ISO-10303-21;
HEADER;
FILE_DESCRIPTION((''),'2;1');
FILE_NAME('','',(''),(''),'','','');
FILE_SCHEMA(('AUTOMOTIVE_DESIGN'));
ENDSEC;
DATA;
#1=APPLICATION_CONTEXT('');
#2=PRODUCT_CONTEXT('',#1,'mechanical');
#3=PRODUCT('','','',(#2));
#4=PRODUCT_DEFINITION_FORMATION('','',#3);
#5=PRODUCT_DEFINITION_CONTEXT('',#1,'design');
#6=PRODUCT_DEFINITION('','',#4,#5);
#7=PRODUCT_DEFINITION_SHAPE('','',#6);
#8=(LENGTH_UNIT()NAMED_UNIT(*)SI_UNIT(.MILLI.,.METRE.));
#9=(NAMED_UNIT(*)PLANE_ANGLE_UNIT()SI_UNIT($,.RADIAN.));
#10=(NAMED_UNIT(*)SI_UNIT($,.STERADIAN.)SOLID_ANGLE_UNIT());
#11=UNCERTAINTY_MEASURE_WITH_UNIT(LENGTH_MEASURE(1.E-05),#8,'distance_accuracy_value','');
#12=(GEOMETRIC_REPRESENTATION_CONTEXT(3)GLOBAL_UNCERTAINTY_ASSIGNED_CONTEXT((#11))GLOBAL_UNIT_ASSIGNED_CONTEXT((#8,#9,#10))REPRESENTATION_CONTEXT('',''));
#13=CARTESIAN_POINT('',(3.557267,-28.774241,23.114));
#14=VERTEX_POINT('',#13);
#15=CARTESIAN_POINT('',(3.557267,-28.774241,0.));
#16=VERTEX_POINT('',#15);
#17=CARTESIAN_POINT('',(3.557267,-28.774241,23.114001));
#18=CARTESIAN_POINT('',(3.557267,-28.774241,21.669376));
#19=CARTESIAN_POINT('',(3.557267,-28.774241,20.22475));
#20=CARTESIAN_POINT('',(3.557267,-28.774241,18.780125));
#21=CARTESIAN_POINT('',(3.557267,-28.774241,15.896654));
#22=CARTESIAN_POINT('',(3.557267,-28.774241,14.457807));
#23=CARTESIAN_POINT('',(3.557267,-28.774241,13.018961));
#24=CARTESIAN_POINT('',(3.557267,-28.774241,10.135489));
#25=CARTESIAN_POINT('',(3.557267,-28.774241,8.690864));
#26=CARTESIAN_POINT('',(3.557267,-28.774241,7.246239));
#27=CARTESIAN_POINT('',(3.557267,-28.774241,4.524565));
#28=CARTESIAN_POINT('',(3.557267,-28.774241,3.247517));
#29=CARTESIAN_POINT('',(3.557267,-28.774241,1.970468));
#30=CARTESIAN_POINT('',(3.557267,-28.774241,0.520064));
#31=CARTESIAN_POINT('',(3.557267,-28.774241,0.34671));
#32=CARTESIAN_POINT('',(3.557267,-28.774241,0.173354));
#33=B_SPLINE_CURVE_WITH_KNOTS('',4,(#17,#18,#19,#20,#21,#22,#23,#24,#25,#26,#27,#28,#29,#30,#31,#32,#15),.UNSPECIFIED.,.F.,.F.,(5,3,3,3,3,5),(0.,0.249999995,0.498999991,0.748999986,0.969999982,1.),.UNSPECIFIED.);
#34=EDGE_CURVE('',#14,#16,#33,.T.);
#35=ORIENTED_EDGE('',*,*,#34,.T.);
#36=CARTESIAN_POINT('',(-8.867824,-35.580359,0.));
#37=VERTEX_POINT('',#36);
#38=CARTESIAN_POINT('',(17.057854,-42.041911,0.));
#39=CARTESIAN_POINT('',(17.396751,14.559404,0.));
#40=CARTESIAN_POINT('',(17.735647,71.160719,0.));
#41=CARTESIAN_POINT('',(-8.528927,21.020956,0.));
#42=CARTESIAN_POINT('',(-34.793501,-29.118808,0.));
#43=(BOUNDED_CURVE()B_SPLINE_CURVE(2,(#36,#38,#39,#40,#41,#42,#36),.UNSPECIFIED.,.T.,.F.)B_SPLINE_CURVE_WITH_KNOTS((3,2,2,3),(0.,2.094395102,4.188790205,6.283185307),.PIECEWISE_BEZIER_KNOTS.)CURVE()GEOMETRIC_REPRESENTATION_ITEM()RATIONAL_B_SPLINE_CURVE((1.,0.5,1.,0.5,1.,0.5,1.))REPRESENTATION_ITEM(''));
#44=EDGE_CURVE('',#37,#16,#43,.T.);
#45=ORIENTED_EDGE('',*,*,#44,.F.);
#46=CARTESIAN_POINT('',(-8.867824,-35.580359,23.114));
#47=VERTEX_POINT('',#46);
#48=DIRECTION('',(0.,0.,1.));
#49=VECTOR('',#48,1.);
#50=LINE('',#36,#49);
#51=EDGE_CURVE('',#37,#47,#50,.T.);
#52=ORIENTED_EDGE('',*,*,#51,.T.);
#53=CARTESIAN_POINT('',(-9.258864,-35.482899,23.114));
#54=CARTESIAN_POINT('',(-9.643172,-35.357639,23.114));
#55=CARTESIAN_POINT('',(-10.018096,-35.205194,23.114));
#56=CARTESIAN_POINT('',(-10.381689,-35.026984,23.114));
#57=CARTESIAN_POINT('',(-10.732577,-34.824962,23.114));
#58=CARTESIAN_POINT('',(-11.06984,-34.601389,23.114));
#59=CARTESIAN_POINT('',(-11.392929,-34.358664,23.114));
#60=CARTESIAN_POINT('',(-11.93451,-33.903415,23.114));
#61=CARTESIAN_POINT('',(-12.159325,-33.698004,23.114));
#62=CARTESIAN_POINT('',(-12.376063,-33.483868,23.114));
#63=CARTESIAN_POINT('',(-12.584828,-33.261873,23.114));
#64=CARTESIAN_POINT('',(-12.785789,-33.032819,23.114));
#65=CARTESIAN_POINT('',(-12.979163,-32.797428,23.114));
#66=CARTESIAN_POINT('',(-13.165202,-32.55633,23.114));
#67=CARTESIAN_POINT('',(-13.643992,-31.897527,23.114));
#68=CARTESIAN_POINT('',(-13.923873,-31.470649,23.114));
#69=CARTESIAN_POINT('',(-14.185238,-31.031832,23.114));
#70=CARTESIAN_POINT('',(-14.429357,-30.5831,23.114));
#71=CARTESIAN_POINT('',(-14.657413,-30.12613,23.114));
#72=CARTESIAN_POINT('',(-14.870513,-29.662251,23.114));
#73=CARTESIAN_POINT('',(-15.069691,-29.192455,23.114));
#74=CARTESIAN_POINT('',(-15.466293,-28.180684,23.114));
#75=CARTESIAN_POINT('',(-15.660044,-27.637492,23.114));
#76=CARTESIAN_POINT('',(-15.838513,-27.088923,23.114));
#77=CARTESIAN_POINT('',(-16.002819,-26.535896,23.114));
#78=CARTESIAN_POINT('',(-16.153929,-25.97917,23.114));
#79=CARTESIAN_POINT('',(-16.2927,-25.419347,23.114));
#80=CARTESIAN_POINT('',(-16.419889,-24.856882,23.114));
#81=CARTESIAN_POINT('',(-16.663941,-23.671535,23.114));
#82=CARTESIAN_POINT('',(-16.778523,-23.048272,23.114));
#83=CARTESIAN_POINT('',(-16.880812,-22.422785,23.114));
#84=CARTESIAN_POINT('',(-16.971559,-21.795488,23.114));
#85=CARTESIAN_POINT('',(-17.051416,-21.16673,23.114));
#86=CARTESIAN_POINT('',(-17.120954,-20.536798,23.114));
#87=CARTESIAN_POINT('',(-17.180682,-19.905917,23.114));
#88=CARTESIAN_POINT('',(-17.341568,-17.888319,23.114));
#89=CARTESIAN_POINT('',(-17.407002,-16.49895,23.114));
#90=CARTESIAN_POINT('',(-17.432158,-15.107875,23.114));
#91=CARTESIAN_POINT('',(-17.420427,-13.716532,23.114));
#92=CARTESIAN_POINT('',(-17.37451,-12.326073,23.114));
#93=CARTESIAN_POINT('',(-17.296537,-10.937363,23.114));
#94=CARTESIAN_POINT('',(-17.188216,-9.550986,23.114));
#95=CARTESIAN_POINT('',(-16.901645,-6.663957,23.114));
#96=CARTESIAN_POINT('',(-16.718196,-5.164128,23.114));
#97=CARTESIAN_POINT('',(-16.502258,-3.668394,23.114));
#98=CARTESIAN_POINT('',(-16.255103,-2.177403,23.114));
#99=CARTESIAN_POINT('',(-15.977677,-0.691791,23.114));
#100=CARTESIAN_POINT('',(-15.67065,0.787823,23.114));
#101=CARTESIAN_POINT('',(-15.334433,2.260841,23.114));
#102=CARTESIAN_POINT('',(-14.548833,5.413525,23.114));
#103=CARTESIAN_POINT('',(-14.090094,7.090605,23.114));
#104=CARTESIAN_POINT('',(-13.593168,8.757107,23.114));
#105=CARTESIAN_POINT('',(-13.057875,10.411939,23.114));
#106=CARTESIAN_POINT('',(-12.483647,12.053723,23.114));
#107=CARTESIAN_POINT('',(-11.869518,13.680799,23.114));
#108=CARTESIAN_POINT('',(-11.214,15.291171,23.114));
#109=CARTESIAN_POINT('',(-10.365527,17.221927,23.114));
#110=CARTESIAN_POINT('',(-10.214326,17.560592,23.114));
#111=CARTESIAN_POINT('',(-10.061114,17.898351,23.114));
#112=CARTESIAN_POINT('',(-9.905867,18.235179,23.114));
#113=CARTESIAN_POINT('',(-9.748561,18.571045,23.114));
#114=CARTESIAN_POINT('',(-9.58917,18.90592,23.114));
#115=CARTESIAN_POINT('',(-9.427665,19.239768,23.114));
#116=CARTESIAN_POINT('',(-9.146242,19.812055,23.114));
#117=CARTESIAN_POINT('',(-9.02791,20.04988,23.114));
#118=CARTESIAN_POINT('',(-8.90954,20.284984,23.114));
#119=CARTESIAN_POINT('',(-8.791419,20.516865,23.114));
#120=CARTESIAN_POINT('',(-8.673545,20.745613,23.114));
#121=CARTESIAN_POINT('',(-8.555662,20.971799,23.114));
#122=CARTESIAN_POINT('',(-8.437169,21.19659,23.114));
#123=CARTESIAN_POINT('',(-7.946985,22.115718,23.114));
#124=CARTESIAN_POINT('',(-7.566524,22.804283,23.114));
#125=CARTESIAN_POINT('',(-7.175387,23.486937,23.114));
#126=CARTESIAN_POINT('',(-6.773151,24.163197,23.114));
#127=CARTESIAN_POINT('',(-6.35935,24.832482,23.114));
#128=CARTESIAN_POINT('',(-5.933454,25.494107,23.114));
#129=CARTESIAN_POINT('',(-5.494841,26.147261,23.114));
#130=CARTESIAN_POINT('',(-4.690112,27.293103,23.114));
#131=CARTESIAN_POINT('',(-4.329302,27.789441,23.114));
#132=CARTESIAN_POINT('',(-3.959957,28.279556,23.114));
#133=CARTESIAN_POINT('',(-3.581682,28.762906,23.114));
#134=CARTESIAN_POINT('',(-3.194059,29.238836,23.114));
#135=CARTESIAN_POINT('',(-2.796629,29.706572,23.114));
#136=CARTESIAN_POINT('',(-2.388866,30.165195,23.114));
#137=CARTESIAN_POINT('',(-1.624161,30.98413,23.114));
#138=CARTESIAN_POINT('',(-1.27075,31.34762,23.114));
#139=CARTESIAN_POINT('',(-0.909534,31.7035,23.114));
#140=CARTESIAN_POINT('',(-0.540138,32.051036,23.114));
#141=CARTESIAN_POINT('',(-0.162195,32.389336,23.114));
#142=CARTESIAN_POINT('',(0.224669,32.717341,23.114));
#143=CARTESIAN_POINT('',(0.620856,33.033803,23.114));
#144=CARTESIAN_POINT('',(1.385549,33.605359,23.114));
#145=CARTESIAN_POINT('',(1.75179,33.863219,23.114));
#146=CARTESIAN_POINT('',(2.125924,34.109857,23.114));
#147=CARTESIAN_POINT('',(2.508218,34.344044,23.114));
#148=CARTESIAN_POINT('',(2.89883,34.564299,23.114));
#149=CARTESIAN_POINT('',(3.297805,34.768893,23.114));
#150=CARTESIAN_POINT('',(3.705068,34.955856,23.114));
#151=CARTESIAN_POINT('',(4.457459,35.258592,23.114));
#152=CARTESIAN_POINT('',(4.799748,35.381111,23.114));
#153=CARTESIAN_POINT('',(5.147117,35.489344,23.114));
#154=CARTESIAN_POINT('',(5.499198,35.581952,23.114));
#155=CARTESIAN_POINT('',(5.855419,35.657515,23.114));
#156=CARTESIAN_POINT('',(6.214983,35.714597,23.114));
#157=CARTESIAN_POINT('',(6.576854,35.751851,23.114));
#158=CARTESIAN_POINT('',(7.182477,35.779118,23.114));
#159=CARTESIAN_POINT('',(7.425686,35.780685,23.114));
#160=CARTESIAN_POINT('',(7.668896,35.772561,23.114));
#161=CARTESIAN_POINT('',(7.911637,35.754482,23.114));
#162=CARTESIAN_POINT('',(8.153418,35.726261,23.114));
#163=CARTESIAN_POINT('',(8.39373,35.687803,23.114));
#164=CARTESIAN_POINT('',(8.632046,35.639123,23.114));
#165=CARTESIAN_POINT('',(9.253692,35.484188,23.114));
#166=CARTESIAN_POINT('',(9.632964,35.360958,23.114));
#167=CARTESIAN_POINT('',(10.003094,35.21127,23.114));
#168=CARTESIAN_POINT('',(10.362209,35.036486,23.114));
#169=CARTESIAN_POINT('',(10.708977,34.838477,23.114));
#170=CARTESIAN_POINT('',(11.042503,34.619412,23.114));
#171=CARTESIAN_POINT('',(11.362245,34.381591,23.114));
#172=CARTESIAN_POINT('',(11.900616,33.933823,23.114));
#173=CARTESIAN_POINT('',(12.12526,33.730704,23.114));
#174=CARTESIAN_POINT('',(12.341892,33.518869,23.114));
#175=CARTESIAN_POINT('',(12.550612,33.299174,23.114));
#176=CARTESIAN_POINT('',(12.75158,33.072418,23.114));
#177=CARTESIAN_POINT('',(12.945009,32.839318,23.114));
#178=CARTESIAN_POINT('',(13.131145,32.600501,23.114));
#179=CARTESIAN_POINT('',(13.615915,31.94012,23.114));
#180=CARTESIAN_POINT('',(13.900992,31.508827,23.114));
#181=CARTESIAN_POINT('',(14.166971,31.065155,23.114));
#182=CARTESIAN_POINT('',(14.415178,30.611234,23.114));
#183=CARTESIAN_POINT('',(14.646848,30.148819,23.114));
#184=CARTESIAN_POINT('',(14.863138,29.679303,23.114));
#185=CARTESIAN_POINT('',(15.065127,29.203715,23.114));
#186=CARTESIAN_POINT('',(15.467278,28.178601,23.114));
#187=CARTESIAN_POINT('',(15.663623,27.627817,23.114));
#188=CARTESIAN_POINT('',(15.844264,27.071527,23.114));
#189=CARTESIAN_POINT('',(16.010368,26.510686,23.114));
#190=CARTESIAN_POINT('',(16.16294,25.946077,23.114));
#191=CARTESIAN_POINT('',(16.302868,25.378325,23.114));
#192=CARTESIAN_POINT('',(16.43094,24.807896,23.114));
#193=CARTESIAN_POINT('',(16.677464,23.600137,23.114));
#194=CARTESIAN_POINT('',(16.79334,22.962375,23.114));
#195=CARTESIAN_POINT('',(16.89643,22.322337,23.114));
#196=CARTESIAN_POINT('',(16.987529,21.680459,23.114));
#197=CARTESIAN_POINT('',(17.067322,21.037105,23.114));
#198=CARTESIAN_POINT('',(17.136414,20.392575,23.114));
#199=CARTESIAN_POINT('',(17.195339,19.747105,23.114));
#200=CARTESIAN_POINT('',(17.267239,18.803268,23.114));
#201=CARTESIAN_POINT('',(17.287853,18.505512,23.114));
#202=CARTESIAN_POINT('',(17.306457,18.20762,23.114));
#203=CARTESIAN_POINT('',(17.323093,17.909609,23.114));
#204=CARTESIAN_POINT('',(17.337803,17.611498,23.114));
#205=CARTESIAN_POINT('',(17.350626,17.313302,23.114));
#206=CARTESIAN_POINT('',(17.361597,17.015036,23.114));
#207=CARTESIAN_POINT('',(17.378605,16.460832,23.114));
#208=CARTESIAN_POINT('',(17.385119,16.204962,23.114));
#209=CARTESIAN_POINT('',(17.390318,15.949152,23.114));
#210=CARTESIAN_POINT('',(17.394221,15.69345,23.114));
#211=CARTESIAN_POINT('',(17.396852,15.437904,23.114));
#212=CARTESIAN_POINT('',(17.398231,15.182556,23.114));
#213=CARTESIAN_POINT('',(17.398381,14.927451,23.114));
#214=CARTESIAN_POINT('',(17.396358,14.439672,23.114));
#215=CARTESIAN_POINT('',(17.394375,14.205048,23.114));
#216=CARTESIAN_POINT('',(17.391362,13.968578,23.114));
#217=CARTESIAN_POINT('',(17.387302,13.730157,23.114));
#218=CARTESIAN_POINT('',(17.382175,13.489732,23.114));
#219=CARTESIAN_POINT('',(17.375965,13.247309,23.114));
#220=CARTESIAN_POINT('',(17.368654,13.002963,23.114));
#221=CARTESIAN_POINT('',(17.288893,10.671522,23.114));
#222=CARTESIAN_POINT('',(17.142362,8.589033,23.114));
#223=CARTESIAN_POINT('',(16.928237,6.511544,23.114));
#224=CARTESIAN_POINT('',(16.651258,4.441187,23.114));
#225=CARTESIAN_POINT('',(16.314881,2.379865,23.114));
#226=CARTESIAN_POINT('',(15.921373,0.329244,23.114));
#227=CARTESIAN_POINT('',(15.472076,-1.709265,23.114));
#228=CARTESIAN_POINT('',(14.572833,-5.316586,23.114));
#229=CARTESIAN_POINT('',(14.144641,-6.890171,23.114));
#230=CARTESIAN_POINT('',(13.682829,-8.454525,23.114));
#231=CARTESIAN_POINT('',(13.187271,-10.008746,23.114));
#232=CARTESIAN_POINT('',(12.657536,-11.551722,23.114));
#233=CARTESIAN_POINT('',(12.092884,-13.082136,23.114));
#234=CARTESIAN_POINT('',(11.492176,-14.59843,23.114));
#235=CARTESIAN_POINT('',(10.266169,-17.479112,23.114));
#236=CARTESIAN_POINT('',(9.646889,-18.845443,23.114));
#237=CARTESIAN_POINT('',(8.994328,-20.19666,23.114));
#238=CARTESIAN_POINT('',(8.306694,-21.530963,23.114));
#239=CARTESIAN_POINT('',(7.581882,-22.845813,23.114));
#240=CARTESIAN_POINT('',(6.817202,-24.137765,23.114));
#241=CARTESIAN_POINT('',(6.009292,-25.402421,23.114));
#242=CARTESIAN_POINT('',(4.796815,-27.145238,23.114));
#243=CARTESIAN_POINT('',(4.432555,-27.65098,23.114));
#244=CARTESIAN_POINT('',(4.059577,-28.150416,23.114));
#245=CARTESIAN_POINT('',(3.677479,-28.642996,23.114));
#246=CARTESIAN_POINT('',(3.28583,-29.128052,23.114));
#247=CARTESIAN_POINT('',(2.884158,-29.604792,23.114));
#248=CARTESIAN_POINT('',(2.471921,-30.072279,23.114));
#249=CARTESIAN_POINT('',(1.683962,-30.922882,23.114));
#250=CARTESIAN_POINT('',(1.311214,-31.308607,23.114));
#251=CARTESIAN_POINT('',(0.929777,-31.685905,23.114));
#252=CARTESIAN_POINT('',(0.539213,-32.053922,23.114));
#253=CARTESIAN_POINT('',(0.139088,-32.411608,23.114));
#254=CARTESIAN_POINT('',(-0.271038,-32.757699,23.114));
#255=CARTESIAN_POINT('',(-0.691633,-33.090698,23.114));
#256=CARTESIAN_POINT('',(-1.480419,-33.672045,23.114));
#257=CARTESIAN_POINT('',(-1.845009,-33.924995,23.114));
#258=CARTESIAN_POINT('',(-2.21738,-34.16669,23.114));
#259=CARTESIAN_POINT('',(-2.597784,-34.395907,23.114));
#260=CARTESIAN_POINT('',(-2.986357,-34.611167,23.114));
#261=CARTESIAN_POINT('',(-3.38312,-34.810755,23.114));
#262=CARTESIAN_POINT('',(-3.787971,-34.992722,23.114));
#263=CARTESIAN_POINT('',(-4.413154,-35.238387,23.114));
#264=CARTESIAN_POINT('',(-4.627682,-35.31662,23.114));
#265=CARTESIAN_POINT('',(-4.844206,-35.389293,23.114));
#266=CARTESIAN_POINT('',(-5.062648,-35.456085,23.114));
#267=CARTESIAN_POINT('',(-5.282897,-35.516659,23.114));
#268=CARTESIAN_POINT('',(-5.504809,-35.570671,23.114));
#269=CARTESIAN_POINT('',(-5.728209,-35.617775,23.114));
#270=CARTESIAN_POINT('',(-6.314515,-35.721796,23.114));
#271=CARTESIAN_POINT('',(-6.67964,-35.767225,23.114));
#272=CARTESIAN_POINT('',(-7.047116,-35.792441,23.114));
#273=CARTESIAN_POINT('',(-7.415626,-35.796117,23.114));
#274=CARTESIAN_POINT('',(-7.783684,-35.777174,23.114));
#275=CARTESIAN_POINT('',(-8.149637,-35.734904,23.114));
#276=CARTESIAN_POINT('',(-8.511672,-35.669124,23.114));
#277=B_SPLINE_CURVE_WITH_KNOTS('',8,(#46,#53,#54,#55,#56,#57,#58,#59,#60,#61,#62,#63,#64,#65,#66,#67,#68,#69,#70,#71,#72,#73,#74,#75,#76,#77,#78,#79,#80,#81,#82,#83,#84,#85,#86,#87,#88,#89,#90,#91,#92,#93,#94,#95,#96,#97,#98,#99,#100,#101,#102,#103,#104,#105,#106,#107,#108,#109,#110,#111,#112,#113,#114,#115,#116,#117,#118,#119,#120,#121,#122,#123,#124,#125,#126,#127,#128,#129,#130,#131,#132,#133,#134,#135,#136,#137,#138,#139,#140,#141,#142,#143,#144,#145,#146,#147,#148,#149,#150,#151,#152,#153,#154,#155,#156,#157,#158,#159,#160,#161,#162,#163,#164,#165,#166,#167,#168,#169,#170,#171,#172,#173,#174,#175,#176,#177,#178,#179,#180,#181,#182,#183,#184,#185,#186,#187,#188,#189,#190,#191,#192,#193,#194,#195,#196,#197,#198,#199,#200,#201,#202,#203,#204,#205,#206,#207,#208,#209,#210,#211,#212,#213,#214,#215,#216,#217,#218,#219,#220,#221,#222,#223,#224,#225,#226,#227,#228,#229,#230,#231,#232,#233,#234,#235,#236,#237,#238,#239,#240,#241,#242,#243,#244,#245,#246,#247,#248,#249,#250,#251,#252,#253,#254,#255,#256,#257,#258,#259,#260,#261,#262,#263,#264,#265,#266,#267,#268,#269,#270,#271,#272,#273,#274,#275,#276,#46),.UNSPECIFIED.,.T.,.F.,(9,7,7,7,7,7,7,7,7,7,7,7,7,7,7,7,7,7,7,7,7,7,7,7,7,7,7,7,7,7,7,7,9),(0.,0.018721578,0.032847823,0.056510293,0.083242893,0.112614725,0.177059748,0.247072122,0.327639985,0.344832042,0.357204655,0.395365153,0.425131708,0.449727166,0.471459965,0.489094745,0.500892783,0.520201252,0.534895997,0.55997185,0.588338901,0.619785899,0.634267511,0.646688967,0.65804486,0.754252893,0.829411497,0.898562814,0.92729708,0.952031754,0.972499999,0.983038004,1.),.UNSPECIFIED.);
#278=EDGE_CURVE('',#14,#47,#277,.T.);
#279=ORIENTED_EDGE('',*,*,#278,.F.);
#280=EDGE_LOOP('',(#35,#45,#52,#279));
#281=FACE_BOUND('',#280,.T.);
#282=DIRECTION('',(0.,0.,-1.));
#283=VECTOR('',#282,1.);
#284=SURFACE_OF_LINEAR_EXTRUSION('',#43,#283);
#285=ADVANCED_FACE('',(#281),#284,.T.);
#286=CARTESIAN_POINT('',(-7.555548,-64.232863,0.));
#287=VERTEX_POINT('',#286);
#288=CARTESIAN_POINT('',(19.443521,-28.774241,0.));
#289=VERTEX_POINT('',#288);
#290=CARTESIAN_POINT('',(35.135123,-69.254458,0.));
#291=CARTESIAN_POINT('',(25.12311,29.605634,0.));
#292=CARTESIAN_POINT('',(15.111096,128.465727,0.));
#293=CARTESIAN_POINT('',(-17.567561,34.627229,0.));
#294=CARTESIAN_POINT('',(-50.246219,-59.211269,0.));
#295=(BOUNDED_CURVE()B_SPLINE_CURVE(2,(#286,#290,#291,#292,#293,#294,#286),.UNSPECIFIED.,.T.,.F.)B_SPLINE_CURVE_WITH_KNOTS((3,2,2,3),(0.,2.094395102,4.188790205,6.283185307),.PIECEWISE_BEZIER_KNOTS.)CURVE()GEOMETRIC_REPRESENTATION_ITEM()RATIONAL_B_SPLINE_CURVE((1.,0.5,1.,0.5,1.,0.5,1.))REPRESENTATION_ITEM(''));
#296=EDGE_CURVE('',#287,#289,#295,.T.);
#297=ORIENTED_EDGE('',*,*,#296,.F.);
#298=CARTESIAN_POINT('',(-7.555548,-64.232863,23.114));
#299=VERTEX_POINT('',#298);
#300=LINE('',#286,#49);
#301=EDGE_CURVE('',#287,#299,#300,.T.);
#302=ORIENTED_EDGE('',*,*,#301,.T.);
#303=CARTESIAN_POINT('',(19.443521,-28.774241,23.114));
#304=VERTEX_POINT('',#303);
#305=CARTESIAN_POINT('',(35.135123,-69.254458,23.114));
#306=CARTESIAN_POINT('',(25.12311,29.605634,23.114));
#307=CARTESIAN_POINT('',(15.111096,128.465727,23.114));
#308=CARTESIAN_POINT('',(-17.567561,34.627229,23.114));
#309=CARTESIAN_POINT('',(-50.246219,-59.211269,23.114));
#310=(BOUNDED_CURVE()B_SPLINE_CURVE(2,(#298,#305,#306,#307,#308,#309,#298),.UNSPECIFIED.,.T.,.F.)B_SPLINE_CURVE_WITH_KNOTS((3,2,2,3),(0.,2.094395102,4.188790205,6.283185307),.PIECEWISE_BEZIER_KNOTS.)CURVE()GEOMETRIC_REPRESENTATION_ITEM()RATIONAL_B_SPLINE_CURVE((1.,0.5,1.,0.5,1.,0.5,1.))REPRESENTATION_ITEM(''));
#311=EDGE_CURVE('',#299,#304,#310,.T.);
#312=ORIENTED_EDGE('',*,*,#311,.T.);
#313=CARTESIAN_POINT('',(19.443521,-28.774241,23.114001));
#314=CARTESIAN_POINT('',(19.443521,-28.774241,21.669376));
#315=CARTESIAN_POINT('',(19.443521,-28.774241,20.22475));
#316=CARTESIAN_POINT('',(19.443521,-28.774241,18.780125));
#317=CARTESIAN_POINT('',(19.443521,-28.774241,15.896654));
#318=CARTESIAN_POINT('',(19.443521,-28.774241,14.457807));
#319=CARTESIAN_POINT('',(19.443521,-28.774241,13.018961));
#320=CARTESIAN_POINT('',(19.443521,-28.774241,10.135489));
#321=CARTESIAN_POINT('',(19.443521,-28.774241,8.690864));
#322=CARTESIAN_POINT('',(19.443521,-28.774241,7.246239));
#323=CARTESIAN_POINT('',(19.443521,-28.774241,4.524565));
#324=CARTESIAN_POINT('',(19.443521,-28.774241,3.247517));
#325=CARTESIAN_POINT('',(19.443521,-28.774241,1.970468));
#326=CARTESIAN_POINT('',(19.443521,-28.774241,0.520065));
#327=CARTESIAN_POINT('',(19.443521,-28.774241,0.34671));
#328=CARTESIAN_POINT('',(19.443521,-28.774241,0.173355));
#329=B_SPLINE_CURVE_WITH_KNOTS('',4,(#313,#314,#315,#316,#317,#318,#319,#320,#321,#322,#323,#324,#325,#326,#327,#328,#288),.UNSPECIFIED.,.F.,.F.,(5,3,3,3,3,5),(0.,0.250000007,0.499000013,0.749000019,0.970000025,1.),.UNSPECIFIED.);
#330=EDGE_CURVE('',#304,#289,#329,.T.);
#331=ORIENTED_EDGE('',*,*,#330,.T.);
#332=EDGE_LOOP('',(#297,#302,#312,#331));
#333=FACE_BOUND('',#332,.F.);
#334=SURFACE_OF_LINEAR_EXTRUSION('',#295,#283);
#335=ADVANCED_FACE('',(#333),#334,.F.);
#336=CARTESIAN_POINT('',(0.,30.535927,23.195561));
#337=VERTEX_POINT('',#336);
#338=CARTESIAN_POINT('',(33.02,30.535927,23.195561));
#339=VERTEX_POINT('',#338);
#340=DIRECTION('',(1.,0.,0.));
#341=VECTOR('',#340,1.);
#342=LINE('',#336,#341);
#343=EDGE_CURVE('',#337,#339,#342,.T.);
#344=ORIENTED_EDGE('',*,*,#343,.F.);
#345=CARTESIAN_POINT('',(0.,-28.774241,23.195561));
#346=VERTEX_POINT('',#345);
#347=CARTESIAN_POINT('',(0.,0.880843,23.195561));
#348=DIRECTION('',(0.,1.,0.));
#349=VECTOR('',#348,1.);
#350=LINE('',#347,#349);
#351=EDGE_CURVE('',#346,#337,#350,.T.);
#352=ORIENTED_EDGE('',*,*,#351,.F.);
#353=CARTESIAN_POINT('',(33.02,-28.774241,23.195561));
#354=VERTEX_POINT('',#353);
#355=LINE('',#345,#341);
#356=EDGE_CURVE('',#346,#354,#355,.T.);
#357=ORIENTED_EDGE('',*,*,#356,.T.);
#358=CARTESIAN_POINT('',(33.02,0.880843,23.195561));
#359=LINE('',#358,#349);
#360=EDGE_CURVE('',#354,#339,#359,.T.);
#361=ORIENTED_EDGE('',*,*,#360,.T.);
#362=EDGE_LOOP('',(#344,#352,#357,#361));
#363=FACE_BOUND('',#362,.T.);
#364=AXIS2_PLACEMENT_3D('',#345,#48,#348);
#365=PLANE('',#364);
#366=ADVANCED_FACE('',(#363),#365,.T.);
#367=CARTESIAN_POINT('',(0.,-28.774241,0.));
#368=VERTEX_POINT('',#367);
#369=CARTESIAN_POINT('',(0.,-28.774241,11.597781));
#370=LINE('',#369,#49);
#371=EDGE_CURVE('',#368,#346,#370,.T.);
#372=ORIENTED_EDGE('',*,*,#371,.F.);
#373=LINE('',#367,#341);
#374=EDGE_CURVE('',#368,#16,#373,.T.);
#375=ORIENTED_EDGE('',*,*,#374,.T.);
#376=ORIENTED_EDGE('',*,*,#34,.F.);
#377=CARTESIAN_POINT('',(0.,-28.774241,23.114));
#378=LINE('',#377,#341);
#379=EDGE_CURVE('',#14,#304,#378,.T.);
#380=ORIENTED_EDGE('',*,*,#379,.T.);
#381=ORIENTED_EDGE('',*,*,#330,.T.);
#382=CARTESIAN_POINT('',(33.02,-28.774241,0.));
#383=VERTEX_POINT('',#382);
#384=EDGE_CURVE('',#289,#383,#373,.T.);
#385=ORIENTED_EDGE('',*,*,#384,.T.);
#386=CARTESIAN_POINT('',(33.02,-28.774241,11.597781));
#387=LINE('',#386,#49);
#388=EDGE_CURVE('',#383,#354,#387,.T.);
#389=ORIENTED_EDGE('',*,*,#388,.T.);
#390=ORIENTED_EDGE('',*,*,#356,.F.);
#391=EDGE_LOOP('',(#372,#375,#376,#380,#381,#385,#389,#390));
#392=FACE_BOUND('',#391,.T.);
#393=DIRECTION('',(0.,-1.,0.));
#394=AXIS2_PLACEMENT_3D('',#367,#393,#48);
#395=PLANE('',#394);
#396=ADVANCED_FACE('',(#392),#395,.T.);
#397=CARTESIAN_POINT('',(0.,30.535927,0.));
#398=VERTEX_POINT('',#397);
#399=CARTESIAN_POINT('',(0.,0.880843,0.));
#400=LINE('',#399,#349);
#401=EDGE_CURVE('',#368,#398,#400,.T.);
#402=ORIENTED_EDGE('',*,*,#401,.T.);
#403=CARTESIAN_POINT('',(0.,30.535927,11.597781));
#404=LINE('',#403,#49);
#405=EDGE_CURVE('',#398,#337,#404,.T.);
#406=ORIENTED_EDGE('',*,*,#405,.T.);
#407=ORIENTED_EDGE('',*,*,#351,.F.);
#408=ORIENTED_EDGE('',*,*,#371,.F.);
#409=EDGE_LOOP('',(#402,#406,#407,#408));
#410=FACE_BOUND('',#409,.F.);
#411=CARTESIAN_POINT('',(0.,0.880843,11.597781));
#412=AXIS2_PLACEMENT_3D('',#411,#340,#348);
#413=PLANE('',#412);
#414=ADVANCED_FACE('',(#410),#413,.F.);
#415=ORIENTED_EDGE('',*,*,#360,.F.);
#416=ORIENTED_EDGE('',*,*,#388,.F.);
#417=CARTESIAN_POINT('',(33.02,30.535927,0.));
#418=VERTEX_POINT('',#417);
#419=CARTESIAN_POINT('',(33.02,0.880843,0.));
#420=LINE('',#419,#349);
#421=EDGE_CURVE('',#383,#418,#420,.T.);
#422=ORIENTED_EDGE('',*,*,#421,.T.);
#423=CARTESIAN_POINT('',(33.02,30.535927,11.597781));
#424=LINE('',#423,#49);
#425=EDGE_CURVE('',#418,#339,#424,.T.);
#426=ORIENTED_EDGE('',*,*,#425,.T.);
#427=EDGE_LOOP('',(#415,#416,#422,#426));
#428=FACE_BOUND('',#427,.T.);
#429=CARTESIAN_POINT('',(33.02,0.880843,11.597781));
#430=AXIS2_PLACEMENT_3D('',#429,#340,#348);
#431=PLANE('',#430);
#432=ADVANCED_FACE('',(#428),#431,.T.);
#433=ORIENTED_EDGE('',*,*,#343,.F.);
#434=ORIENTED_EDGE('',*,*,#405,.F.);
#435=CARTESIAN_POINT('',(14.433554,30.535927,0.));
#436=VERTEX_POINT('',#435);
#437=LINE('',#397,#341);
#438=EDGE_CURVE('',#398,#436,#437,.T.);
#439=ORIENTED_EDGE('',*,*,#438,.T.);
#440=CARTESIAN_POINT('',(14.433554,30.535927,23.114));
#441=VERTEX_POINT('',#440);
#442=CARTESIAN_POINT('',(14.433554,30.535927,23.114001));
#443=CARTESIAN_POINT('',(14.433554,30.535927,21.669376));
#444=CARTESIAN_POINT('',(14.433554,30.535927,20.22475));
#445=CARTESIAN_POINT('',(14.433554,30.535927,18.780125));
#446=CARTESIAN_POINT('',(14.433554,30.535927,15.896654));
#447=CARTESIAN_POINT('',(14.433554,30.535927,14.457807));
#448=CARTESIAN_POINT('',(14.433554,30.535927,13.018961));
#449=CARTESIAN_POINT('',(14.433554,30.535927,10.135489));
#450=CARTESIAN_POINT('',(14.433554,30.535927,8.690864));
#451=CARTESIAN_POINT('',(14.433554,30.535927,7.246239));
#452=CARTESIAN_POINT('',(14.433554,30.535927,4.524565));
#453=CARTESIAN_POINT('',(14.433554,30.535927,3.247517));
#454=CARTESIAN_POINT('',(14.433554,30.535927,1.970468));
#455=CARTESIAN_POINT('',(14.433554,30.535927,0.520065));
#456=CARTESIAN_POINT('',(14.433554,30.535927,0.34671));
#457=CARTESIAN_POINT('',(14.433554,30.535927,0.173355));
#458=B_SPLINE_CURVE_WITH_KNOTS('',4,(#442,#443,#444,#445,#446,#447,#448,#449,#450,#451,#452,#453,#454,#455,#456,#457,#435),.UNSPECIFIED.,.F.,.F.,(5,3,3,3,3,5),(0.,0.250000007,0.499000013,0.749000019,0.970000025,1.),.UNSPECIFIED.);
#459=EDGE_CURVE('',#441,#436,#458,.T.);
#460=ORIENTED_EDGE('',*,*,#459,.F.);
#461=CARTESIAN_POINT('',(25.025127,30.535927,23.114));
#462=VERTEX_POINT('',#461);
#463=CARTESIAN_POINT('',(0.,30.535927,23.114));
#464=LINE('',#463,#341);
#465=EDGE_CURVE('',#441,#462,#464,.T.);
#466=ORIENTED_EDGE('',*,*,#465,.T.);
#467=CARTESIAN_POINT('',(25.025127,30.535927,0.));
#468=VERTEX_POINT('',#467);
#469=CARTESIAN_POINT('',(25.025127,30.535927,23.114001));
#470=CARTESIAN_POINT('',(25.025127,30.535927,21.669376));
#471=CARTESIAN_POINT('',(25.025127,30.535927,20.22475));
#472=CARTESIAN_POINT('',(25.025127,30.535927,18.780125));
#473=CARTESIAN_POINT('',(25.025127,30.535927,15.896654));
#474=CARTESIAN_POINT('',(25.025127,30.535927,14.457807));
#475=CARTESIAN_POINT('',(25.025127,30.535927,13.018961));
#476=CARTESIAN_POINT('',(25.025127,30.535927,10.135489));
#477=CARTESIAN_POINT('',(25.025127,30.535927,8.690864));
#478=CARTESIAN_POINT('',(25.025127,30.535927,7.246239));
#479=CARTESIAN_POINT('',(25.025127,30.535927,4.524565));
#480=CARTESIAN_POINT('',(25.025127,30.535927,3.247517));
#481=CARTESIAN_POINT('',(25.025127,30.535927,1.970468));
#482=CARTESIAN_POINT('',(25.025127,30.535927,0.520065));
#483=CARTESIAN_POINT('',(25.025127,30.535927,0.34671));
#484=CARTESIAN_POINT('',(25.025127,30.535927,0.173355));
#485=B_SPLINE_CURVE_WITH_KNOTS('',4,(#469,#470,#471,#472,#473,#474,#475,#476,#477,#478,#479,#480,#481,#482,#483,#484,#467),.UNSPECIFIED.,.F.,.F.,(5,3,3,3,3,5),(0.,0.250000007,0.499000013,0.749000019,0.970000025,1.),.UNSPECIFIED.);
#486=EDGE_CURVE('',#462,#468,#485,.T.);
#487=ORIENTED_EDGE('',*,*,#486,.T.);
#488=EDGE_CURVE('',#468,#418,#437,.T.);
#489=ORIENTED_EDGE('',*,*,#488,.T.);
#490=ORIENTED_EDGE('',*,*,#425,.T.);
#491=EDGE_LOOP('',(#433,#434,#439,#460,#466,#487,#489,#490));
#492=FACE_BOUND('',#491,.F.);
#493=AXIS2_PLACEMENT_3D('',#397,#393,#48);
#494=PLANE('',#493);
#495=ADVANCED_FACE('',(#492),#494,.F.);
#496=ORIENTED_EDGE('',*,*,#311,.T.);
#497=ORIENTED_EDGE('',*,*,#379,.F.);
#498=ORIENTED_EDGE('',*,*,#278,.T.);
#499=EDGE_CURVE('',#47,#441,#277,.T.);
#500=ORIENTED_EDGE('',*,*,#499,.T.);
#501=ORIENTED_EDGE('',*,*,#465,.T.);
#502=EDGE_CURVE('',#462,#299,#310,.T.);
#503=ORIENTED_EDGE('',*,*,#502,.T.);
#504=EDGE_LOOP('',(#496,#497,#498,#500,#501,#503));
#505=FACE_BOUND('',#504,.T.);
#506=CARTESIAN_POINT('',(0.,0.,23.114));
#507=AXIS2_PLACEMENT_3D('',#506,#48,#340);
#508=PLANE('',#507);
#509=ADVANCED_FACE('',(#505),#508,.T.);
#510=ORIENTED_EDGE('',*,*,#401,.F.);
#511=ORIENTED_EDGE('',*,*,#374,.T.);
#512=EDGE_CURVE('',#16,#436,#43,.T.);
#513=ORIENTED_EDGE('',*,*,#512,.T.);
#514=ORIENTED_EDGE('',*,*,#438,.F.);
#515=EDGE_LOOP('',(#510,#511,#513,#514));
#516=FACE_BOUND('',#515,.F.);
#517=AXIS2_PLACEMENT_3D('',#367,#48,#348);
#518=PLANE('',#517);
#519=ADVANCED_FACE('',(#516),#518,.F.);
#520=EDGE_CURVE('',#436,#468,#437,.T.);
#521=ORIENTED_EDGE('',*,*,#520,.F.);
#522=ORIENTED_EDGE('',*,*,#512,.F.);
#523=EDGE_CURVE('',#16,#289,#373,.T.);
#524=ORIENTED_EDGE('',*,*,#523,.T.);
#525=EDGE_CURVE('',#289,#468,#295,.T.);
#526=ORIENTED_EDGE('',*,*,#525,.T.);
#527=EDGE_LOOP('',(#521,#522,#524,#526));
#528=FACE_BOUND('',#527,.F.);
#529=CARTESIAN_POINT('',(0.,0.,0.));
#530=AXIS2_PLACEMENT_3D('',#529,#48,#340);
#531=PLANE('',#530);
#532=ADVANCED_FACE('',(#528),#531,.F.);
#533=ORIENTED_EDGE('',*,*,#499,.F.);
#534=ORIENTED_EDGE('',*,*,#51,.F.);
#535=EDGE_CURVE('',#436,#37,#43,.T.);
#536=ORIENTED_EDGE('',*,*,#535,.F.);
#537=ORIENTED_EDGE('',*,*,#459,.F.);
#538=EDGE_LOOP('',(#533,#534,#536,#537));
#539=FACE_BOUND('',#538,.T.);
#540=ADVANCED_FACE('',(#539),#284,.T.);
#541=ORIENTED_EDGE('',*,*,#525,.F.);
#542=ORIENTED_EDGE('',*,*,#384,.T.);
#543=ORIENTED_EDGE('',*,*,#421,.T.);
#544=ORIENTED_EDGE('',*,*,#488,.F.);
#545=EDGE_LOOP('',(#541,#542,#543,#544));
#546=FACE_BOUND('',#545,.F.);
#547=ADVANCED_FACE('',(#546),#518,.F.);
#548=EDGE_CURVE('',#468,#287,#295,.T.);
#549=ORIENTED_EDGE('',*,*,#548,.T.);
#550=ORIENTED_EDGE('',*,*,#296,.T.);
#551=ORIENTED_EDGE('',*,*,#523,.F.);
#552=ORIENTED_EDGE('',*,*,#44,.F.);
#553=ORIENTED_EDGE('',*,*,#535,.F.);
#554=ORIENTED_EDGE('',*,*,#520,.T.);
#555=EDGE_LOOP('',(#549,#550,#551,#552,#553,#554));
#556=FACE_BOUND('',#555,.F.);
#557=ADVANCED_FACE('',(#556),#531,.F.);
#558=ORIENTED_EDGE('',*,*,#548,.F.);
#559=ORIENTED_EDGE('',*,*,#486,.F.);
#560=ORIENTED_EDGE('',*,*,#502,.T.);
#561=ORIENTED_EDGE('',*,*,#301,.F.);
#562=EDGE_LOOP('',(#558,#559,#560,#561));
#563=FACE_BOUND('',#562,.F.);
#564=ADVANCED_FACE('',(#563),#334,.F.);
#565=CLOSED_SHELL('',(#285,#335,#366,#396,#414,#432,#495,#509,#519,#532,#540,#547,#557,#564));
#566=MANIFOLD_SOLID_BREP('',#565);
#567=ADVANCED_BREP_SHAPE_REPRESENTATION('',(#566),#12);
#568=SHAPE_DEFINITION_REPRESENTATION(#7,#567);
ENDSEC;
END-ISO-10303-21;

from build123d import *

# Parameters (mm, degrees)
F1_DEPTH = 23.114
F3_DEPTH = 60.452
F4_W     = 59.3101680279
F4_H     = 23.1955610216
F5_DEPTH = 33.02


with BuildPart() as f1:
    # F0 (on Top) → F1 (new body)
    with BuildSketch(Plane.XY):
        with BuildLine():
            add(Edge.make_bspline(
                [(-7.5555481017, -64.2328634858), (35.1351228345, -69.2544583556), (25.1231095189, 29.605634308), (15.1110962033, 128.4657269716), (-17.5675614173, 34.6272291778), (-50.2462190379, -59.211268616), (-7.5555481017, -64.2328634858)],
                knots=[0, 0, 0, 2.0943951024, 2.0943951024, 4.1887902048, 4.1887902048, 6.2831853072, 6.2831853072, 6.2831853072], degree=2, weights=[1, 0.5, 1, 0.5, 1, 0.5, 1]))
        make_face()
    extrude(amount=F1_DEPTH)

    # F2 (on Top) → F3 (cut)
    with BuildSketch(Plane.XY):
        with BuildLine():
            add(Edge.make_bspline(
                [(-8.8678235188, -35.5803593993), (17.0578542718, -42.0419111974), (17.3967506547, 14.5594038006), (17.7356470376, 71.1607187986), (-8.5289271359, 21.0209555987), (-34.7935013094, -29.1188076012), (-8.8678235188, -35.5803593993)],
                knots=[0, 0, 0, 2.0943951024, 2.0943951024, 4.1887902048, 4.1887902048, 6.2831853072, 6.2831853072, 6.2831853072], degree=2, weights=[1, 0.5, 1, 0.5, 1, 0.5, 1]))
        make_face()
    extrude(amount=F3_DEPTH, mode=Mode.SUBTRACT)

    # F4 (on Right) → F5 (join)
    with BuildSketch(Plane.YZ):
        with Locations((0.8808430284, 11.5977805108)):
            Rectangle(F4_W, F4_H)
    extrude(amount=F5_DEPTH)


solid = f1.part
